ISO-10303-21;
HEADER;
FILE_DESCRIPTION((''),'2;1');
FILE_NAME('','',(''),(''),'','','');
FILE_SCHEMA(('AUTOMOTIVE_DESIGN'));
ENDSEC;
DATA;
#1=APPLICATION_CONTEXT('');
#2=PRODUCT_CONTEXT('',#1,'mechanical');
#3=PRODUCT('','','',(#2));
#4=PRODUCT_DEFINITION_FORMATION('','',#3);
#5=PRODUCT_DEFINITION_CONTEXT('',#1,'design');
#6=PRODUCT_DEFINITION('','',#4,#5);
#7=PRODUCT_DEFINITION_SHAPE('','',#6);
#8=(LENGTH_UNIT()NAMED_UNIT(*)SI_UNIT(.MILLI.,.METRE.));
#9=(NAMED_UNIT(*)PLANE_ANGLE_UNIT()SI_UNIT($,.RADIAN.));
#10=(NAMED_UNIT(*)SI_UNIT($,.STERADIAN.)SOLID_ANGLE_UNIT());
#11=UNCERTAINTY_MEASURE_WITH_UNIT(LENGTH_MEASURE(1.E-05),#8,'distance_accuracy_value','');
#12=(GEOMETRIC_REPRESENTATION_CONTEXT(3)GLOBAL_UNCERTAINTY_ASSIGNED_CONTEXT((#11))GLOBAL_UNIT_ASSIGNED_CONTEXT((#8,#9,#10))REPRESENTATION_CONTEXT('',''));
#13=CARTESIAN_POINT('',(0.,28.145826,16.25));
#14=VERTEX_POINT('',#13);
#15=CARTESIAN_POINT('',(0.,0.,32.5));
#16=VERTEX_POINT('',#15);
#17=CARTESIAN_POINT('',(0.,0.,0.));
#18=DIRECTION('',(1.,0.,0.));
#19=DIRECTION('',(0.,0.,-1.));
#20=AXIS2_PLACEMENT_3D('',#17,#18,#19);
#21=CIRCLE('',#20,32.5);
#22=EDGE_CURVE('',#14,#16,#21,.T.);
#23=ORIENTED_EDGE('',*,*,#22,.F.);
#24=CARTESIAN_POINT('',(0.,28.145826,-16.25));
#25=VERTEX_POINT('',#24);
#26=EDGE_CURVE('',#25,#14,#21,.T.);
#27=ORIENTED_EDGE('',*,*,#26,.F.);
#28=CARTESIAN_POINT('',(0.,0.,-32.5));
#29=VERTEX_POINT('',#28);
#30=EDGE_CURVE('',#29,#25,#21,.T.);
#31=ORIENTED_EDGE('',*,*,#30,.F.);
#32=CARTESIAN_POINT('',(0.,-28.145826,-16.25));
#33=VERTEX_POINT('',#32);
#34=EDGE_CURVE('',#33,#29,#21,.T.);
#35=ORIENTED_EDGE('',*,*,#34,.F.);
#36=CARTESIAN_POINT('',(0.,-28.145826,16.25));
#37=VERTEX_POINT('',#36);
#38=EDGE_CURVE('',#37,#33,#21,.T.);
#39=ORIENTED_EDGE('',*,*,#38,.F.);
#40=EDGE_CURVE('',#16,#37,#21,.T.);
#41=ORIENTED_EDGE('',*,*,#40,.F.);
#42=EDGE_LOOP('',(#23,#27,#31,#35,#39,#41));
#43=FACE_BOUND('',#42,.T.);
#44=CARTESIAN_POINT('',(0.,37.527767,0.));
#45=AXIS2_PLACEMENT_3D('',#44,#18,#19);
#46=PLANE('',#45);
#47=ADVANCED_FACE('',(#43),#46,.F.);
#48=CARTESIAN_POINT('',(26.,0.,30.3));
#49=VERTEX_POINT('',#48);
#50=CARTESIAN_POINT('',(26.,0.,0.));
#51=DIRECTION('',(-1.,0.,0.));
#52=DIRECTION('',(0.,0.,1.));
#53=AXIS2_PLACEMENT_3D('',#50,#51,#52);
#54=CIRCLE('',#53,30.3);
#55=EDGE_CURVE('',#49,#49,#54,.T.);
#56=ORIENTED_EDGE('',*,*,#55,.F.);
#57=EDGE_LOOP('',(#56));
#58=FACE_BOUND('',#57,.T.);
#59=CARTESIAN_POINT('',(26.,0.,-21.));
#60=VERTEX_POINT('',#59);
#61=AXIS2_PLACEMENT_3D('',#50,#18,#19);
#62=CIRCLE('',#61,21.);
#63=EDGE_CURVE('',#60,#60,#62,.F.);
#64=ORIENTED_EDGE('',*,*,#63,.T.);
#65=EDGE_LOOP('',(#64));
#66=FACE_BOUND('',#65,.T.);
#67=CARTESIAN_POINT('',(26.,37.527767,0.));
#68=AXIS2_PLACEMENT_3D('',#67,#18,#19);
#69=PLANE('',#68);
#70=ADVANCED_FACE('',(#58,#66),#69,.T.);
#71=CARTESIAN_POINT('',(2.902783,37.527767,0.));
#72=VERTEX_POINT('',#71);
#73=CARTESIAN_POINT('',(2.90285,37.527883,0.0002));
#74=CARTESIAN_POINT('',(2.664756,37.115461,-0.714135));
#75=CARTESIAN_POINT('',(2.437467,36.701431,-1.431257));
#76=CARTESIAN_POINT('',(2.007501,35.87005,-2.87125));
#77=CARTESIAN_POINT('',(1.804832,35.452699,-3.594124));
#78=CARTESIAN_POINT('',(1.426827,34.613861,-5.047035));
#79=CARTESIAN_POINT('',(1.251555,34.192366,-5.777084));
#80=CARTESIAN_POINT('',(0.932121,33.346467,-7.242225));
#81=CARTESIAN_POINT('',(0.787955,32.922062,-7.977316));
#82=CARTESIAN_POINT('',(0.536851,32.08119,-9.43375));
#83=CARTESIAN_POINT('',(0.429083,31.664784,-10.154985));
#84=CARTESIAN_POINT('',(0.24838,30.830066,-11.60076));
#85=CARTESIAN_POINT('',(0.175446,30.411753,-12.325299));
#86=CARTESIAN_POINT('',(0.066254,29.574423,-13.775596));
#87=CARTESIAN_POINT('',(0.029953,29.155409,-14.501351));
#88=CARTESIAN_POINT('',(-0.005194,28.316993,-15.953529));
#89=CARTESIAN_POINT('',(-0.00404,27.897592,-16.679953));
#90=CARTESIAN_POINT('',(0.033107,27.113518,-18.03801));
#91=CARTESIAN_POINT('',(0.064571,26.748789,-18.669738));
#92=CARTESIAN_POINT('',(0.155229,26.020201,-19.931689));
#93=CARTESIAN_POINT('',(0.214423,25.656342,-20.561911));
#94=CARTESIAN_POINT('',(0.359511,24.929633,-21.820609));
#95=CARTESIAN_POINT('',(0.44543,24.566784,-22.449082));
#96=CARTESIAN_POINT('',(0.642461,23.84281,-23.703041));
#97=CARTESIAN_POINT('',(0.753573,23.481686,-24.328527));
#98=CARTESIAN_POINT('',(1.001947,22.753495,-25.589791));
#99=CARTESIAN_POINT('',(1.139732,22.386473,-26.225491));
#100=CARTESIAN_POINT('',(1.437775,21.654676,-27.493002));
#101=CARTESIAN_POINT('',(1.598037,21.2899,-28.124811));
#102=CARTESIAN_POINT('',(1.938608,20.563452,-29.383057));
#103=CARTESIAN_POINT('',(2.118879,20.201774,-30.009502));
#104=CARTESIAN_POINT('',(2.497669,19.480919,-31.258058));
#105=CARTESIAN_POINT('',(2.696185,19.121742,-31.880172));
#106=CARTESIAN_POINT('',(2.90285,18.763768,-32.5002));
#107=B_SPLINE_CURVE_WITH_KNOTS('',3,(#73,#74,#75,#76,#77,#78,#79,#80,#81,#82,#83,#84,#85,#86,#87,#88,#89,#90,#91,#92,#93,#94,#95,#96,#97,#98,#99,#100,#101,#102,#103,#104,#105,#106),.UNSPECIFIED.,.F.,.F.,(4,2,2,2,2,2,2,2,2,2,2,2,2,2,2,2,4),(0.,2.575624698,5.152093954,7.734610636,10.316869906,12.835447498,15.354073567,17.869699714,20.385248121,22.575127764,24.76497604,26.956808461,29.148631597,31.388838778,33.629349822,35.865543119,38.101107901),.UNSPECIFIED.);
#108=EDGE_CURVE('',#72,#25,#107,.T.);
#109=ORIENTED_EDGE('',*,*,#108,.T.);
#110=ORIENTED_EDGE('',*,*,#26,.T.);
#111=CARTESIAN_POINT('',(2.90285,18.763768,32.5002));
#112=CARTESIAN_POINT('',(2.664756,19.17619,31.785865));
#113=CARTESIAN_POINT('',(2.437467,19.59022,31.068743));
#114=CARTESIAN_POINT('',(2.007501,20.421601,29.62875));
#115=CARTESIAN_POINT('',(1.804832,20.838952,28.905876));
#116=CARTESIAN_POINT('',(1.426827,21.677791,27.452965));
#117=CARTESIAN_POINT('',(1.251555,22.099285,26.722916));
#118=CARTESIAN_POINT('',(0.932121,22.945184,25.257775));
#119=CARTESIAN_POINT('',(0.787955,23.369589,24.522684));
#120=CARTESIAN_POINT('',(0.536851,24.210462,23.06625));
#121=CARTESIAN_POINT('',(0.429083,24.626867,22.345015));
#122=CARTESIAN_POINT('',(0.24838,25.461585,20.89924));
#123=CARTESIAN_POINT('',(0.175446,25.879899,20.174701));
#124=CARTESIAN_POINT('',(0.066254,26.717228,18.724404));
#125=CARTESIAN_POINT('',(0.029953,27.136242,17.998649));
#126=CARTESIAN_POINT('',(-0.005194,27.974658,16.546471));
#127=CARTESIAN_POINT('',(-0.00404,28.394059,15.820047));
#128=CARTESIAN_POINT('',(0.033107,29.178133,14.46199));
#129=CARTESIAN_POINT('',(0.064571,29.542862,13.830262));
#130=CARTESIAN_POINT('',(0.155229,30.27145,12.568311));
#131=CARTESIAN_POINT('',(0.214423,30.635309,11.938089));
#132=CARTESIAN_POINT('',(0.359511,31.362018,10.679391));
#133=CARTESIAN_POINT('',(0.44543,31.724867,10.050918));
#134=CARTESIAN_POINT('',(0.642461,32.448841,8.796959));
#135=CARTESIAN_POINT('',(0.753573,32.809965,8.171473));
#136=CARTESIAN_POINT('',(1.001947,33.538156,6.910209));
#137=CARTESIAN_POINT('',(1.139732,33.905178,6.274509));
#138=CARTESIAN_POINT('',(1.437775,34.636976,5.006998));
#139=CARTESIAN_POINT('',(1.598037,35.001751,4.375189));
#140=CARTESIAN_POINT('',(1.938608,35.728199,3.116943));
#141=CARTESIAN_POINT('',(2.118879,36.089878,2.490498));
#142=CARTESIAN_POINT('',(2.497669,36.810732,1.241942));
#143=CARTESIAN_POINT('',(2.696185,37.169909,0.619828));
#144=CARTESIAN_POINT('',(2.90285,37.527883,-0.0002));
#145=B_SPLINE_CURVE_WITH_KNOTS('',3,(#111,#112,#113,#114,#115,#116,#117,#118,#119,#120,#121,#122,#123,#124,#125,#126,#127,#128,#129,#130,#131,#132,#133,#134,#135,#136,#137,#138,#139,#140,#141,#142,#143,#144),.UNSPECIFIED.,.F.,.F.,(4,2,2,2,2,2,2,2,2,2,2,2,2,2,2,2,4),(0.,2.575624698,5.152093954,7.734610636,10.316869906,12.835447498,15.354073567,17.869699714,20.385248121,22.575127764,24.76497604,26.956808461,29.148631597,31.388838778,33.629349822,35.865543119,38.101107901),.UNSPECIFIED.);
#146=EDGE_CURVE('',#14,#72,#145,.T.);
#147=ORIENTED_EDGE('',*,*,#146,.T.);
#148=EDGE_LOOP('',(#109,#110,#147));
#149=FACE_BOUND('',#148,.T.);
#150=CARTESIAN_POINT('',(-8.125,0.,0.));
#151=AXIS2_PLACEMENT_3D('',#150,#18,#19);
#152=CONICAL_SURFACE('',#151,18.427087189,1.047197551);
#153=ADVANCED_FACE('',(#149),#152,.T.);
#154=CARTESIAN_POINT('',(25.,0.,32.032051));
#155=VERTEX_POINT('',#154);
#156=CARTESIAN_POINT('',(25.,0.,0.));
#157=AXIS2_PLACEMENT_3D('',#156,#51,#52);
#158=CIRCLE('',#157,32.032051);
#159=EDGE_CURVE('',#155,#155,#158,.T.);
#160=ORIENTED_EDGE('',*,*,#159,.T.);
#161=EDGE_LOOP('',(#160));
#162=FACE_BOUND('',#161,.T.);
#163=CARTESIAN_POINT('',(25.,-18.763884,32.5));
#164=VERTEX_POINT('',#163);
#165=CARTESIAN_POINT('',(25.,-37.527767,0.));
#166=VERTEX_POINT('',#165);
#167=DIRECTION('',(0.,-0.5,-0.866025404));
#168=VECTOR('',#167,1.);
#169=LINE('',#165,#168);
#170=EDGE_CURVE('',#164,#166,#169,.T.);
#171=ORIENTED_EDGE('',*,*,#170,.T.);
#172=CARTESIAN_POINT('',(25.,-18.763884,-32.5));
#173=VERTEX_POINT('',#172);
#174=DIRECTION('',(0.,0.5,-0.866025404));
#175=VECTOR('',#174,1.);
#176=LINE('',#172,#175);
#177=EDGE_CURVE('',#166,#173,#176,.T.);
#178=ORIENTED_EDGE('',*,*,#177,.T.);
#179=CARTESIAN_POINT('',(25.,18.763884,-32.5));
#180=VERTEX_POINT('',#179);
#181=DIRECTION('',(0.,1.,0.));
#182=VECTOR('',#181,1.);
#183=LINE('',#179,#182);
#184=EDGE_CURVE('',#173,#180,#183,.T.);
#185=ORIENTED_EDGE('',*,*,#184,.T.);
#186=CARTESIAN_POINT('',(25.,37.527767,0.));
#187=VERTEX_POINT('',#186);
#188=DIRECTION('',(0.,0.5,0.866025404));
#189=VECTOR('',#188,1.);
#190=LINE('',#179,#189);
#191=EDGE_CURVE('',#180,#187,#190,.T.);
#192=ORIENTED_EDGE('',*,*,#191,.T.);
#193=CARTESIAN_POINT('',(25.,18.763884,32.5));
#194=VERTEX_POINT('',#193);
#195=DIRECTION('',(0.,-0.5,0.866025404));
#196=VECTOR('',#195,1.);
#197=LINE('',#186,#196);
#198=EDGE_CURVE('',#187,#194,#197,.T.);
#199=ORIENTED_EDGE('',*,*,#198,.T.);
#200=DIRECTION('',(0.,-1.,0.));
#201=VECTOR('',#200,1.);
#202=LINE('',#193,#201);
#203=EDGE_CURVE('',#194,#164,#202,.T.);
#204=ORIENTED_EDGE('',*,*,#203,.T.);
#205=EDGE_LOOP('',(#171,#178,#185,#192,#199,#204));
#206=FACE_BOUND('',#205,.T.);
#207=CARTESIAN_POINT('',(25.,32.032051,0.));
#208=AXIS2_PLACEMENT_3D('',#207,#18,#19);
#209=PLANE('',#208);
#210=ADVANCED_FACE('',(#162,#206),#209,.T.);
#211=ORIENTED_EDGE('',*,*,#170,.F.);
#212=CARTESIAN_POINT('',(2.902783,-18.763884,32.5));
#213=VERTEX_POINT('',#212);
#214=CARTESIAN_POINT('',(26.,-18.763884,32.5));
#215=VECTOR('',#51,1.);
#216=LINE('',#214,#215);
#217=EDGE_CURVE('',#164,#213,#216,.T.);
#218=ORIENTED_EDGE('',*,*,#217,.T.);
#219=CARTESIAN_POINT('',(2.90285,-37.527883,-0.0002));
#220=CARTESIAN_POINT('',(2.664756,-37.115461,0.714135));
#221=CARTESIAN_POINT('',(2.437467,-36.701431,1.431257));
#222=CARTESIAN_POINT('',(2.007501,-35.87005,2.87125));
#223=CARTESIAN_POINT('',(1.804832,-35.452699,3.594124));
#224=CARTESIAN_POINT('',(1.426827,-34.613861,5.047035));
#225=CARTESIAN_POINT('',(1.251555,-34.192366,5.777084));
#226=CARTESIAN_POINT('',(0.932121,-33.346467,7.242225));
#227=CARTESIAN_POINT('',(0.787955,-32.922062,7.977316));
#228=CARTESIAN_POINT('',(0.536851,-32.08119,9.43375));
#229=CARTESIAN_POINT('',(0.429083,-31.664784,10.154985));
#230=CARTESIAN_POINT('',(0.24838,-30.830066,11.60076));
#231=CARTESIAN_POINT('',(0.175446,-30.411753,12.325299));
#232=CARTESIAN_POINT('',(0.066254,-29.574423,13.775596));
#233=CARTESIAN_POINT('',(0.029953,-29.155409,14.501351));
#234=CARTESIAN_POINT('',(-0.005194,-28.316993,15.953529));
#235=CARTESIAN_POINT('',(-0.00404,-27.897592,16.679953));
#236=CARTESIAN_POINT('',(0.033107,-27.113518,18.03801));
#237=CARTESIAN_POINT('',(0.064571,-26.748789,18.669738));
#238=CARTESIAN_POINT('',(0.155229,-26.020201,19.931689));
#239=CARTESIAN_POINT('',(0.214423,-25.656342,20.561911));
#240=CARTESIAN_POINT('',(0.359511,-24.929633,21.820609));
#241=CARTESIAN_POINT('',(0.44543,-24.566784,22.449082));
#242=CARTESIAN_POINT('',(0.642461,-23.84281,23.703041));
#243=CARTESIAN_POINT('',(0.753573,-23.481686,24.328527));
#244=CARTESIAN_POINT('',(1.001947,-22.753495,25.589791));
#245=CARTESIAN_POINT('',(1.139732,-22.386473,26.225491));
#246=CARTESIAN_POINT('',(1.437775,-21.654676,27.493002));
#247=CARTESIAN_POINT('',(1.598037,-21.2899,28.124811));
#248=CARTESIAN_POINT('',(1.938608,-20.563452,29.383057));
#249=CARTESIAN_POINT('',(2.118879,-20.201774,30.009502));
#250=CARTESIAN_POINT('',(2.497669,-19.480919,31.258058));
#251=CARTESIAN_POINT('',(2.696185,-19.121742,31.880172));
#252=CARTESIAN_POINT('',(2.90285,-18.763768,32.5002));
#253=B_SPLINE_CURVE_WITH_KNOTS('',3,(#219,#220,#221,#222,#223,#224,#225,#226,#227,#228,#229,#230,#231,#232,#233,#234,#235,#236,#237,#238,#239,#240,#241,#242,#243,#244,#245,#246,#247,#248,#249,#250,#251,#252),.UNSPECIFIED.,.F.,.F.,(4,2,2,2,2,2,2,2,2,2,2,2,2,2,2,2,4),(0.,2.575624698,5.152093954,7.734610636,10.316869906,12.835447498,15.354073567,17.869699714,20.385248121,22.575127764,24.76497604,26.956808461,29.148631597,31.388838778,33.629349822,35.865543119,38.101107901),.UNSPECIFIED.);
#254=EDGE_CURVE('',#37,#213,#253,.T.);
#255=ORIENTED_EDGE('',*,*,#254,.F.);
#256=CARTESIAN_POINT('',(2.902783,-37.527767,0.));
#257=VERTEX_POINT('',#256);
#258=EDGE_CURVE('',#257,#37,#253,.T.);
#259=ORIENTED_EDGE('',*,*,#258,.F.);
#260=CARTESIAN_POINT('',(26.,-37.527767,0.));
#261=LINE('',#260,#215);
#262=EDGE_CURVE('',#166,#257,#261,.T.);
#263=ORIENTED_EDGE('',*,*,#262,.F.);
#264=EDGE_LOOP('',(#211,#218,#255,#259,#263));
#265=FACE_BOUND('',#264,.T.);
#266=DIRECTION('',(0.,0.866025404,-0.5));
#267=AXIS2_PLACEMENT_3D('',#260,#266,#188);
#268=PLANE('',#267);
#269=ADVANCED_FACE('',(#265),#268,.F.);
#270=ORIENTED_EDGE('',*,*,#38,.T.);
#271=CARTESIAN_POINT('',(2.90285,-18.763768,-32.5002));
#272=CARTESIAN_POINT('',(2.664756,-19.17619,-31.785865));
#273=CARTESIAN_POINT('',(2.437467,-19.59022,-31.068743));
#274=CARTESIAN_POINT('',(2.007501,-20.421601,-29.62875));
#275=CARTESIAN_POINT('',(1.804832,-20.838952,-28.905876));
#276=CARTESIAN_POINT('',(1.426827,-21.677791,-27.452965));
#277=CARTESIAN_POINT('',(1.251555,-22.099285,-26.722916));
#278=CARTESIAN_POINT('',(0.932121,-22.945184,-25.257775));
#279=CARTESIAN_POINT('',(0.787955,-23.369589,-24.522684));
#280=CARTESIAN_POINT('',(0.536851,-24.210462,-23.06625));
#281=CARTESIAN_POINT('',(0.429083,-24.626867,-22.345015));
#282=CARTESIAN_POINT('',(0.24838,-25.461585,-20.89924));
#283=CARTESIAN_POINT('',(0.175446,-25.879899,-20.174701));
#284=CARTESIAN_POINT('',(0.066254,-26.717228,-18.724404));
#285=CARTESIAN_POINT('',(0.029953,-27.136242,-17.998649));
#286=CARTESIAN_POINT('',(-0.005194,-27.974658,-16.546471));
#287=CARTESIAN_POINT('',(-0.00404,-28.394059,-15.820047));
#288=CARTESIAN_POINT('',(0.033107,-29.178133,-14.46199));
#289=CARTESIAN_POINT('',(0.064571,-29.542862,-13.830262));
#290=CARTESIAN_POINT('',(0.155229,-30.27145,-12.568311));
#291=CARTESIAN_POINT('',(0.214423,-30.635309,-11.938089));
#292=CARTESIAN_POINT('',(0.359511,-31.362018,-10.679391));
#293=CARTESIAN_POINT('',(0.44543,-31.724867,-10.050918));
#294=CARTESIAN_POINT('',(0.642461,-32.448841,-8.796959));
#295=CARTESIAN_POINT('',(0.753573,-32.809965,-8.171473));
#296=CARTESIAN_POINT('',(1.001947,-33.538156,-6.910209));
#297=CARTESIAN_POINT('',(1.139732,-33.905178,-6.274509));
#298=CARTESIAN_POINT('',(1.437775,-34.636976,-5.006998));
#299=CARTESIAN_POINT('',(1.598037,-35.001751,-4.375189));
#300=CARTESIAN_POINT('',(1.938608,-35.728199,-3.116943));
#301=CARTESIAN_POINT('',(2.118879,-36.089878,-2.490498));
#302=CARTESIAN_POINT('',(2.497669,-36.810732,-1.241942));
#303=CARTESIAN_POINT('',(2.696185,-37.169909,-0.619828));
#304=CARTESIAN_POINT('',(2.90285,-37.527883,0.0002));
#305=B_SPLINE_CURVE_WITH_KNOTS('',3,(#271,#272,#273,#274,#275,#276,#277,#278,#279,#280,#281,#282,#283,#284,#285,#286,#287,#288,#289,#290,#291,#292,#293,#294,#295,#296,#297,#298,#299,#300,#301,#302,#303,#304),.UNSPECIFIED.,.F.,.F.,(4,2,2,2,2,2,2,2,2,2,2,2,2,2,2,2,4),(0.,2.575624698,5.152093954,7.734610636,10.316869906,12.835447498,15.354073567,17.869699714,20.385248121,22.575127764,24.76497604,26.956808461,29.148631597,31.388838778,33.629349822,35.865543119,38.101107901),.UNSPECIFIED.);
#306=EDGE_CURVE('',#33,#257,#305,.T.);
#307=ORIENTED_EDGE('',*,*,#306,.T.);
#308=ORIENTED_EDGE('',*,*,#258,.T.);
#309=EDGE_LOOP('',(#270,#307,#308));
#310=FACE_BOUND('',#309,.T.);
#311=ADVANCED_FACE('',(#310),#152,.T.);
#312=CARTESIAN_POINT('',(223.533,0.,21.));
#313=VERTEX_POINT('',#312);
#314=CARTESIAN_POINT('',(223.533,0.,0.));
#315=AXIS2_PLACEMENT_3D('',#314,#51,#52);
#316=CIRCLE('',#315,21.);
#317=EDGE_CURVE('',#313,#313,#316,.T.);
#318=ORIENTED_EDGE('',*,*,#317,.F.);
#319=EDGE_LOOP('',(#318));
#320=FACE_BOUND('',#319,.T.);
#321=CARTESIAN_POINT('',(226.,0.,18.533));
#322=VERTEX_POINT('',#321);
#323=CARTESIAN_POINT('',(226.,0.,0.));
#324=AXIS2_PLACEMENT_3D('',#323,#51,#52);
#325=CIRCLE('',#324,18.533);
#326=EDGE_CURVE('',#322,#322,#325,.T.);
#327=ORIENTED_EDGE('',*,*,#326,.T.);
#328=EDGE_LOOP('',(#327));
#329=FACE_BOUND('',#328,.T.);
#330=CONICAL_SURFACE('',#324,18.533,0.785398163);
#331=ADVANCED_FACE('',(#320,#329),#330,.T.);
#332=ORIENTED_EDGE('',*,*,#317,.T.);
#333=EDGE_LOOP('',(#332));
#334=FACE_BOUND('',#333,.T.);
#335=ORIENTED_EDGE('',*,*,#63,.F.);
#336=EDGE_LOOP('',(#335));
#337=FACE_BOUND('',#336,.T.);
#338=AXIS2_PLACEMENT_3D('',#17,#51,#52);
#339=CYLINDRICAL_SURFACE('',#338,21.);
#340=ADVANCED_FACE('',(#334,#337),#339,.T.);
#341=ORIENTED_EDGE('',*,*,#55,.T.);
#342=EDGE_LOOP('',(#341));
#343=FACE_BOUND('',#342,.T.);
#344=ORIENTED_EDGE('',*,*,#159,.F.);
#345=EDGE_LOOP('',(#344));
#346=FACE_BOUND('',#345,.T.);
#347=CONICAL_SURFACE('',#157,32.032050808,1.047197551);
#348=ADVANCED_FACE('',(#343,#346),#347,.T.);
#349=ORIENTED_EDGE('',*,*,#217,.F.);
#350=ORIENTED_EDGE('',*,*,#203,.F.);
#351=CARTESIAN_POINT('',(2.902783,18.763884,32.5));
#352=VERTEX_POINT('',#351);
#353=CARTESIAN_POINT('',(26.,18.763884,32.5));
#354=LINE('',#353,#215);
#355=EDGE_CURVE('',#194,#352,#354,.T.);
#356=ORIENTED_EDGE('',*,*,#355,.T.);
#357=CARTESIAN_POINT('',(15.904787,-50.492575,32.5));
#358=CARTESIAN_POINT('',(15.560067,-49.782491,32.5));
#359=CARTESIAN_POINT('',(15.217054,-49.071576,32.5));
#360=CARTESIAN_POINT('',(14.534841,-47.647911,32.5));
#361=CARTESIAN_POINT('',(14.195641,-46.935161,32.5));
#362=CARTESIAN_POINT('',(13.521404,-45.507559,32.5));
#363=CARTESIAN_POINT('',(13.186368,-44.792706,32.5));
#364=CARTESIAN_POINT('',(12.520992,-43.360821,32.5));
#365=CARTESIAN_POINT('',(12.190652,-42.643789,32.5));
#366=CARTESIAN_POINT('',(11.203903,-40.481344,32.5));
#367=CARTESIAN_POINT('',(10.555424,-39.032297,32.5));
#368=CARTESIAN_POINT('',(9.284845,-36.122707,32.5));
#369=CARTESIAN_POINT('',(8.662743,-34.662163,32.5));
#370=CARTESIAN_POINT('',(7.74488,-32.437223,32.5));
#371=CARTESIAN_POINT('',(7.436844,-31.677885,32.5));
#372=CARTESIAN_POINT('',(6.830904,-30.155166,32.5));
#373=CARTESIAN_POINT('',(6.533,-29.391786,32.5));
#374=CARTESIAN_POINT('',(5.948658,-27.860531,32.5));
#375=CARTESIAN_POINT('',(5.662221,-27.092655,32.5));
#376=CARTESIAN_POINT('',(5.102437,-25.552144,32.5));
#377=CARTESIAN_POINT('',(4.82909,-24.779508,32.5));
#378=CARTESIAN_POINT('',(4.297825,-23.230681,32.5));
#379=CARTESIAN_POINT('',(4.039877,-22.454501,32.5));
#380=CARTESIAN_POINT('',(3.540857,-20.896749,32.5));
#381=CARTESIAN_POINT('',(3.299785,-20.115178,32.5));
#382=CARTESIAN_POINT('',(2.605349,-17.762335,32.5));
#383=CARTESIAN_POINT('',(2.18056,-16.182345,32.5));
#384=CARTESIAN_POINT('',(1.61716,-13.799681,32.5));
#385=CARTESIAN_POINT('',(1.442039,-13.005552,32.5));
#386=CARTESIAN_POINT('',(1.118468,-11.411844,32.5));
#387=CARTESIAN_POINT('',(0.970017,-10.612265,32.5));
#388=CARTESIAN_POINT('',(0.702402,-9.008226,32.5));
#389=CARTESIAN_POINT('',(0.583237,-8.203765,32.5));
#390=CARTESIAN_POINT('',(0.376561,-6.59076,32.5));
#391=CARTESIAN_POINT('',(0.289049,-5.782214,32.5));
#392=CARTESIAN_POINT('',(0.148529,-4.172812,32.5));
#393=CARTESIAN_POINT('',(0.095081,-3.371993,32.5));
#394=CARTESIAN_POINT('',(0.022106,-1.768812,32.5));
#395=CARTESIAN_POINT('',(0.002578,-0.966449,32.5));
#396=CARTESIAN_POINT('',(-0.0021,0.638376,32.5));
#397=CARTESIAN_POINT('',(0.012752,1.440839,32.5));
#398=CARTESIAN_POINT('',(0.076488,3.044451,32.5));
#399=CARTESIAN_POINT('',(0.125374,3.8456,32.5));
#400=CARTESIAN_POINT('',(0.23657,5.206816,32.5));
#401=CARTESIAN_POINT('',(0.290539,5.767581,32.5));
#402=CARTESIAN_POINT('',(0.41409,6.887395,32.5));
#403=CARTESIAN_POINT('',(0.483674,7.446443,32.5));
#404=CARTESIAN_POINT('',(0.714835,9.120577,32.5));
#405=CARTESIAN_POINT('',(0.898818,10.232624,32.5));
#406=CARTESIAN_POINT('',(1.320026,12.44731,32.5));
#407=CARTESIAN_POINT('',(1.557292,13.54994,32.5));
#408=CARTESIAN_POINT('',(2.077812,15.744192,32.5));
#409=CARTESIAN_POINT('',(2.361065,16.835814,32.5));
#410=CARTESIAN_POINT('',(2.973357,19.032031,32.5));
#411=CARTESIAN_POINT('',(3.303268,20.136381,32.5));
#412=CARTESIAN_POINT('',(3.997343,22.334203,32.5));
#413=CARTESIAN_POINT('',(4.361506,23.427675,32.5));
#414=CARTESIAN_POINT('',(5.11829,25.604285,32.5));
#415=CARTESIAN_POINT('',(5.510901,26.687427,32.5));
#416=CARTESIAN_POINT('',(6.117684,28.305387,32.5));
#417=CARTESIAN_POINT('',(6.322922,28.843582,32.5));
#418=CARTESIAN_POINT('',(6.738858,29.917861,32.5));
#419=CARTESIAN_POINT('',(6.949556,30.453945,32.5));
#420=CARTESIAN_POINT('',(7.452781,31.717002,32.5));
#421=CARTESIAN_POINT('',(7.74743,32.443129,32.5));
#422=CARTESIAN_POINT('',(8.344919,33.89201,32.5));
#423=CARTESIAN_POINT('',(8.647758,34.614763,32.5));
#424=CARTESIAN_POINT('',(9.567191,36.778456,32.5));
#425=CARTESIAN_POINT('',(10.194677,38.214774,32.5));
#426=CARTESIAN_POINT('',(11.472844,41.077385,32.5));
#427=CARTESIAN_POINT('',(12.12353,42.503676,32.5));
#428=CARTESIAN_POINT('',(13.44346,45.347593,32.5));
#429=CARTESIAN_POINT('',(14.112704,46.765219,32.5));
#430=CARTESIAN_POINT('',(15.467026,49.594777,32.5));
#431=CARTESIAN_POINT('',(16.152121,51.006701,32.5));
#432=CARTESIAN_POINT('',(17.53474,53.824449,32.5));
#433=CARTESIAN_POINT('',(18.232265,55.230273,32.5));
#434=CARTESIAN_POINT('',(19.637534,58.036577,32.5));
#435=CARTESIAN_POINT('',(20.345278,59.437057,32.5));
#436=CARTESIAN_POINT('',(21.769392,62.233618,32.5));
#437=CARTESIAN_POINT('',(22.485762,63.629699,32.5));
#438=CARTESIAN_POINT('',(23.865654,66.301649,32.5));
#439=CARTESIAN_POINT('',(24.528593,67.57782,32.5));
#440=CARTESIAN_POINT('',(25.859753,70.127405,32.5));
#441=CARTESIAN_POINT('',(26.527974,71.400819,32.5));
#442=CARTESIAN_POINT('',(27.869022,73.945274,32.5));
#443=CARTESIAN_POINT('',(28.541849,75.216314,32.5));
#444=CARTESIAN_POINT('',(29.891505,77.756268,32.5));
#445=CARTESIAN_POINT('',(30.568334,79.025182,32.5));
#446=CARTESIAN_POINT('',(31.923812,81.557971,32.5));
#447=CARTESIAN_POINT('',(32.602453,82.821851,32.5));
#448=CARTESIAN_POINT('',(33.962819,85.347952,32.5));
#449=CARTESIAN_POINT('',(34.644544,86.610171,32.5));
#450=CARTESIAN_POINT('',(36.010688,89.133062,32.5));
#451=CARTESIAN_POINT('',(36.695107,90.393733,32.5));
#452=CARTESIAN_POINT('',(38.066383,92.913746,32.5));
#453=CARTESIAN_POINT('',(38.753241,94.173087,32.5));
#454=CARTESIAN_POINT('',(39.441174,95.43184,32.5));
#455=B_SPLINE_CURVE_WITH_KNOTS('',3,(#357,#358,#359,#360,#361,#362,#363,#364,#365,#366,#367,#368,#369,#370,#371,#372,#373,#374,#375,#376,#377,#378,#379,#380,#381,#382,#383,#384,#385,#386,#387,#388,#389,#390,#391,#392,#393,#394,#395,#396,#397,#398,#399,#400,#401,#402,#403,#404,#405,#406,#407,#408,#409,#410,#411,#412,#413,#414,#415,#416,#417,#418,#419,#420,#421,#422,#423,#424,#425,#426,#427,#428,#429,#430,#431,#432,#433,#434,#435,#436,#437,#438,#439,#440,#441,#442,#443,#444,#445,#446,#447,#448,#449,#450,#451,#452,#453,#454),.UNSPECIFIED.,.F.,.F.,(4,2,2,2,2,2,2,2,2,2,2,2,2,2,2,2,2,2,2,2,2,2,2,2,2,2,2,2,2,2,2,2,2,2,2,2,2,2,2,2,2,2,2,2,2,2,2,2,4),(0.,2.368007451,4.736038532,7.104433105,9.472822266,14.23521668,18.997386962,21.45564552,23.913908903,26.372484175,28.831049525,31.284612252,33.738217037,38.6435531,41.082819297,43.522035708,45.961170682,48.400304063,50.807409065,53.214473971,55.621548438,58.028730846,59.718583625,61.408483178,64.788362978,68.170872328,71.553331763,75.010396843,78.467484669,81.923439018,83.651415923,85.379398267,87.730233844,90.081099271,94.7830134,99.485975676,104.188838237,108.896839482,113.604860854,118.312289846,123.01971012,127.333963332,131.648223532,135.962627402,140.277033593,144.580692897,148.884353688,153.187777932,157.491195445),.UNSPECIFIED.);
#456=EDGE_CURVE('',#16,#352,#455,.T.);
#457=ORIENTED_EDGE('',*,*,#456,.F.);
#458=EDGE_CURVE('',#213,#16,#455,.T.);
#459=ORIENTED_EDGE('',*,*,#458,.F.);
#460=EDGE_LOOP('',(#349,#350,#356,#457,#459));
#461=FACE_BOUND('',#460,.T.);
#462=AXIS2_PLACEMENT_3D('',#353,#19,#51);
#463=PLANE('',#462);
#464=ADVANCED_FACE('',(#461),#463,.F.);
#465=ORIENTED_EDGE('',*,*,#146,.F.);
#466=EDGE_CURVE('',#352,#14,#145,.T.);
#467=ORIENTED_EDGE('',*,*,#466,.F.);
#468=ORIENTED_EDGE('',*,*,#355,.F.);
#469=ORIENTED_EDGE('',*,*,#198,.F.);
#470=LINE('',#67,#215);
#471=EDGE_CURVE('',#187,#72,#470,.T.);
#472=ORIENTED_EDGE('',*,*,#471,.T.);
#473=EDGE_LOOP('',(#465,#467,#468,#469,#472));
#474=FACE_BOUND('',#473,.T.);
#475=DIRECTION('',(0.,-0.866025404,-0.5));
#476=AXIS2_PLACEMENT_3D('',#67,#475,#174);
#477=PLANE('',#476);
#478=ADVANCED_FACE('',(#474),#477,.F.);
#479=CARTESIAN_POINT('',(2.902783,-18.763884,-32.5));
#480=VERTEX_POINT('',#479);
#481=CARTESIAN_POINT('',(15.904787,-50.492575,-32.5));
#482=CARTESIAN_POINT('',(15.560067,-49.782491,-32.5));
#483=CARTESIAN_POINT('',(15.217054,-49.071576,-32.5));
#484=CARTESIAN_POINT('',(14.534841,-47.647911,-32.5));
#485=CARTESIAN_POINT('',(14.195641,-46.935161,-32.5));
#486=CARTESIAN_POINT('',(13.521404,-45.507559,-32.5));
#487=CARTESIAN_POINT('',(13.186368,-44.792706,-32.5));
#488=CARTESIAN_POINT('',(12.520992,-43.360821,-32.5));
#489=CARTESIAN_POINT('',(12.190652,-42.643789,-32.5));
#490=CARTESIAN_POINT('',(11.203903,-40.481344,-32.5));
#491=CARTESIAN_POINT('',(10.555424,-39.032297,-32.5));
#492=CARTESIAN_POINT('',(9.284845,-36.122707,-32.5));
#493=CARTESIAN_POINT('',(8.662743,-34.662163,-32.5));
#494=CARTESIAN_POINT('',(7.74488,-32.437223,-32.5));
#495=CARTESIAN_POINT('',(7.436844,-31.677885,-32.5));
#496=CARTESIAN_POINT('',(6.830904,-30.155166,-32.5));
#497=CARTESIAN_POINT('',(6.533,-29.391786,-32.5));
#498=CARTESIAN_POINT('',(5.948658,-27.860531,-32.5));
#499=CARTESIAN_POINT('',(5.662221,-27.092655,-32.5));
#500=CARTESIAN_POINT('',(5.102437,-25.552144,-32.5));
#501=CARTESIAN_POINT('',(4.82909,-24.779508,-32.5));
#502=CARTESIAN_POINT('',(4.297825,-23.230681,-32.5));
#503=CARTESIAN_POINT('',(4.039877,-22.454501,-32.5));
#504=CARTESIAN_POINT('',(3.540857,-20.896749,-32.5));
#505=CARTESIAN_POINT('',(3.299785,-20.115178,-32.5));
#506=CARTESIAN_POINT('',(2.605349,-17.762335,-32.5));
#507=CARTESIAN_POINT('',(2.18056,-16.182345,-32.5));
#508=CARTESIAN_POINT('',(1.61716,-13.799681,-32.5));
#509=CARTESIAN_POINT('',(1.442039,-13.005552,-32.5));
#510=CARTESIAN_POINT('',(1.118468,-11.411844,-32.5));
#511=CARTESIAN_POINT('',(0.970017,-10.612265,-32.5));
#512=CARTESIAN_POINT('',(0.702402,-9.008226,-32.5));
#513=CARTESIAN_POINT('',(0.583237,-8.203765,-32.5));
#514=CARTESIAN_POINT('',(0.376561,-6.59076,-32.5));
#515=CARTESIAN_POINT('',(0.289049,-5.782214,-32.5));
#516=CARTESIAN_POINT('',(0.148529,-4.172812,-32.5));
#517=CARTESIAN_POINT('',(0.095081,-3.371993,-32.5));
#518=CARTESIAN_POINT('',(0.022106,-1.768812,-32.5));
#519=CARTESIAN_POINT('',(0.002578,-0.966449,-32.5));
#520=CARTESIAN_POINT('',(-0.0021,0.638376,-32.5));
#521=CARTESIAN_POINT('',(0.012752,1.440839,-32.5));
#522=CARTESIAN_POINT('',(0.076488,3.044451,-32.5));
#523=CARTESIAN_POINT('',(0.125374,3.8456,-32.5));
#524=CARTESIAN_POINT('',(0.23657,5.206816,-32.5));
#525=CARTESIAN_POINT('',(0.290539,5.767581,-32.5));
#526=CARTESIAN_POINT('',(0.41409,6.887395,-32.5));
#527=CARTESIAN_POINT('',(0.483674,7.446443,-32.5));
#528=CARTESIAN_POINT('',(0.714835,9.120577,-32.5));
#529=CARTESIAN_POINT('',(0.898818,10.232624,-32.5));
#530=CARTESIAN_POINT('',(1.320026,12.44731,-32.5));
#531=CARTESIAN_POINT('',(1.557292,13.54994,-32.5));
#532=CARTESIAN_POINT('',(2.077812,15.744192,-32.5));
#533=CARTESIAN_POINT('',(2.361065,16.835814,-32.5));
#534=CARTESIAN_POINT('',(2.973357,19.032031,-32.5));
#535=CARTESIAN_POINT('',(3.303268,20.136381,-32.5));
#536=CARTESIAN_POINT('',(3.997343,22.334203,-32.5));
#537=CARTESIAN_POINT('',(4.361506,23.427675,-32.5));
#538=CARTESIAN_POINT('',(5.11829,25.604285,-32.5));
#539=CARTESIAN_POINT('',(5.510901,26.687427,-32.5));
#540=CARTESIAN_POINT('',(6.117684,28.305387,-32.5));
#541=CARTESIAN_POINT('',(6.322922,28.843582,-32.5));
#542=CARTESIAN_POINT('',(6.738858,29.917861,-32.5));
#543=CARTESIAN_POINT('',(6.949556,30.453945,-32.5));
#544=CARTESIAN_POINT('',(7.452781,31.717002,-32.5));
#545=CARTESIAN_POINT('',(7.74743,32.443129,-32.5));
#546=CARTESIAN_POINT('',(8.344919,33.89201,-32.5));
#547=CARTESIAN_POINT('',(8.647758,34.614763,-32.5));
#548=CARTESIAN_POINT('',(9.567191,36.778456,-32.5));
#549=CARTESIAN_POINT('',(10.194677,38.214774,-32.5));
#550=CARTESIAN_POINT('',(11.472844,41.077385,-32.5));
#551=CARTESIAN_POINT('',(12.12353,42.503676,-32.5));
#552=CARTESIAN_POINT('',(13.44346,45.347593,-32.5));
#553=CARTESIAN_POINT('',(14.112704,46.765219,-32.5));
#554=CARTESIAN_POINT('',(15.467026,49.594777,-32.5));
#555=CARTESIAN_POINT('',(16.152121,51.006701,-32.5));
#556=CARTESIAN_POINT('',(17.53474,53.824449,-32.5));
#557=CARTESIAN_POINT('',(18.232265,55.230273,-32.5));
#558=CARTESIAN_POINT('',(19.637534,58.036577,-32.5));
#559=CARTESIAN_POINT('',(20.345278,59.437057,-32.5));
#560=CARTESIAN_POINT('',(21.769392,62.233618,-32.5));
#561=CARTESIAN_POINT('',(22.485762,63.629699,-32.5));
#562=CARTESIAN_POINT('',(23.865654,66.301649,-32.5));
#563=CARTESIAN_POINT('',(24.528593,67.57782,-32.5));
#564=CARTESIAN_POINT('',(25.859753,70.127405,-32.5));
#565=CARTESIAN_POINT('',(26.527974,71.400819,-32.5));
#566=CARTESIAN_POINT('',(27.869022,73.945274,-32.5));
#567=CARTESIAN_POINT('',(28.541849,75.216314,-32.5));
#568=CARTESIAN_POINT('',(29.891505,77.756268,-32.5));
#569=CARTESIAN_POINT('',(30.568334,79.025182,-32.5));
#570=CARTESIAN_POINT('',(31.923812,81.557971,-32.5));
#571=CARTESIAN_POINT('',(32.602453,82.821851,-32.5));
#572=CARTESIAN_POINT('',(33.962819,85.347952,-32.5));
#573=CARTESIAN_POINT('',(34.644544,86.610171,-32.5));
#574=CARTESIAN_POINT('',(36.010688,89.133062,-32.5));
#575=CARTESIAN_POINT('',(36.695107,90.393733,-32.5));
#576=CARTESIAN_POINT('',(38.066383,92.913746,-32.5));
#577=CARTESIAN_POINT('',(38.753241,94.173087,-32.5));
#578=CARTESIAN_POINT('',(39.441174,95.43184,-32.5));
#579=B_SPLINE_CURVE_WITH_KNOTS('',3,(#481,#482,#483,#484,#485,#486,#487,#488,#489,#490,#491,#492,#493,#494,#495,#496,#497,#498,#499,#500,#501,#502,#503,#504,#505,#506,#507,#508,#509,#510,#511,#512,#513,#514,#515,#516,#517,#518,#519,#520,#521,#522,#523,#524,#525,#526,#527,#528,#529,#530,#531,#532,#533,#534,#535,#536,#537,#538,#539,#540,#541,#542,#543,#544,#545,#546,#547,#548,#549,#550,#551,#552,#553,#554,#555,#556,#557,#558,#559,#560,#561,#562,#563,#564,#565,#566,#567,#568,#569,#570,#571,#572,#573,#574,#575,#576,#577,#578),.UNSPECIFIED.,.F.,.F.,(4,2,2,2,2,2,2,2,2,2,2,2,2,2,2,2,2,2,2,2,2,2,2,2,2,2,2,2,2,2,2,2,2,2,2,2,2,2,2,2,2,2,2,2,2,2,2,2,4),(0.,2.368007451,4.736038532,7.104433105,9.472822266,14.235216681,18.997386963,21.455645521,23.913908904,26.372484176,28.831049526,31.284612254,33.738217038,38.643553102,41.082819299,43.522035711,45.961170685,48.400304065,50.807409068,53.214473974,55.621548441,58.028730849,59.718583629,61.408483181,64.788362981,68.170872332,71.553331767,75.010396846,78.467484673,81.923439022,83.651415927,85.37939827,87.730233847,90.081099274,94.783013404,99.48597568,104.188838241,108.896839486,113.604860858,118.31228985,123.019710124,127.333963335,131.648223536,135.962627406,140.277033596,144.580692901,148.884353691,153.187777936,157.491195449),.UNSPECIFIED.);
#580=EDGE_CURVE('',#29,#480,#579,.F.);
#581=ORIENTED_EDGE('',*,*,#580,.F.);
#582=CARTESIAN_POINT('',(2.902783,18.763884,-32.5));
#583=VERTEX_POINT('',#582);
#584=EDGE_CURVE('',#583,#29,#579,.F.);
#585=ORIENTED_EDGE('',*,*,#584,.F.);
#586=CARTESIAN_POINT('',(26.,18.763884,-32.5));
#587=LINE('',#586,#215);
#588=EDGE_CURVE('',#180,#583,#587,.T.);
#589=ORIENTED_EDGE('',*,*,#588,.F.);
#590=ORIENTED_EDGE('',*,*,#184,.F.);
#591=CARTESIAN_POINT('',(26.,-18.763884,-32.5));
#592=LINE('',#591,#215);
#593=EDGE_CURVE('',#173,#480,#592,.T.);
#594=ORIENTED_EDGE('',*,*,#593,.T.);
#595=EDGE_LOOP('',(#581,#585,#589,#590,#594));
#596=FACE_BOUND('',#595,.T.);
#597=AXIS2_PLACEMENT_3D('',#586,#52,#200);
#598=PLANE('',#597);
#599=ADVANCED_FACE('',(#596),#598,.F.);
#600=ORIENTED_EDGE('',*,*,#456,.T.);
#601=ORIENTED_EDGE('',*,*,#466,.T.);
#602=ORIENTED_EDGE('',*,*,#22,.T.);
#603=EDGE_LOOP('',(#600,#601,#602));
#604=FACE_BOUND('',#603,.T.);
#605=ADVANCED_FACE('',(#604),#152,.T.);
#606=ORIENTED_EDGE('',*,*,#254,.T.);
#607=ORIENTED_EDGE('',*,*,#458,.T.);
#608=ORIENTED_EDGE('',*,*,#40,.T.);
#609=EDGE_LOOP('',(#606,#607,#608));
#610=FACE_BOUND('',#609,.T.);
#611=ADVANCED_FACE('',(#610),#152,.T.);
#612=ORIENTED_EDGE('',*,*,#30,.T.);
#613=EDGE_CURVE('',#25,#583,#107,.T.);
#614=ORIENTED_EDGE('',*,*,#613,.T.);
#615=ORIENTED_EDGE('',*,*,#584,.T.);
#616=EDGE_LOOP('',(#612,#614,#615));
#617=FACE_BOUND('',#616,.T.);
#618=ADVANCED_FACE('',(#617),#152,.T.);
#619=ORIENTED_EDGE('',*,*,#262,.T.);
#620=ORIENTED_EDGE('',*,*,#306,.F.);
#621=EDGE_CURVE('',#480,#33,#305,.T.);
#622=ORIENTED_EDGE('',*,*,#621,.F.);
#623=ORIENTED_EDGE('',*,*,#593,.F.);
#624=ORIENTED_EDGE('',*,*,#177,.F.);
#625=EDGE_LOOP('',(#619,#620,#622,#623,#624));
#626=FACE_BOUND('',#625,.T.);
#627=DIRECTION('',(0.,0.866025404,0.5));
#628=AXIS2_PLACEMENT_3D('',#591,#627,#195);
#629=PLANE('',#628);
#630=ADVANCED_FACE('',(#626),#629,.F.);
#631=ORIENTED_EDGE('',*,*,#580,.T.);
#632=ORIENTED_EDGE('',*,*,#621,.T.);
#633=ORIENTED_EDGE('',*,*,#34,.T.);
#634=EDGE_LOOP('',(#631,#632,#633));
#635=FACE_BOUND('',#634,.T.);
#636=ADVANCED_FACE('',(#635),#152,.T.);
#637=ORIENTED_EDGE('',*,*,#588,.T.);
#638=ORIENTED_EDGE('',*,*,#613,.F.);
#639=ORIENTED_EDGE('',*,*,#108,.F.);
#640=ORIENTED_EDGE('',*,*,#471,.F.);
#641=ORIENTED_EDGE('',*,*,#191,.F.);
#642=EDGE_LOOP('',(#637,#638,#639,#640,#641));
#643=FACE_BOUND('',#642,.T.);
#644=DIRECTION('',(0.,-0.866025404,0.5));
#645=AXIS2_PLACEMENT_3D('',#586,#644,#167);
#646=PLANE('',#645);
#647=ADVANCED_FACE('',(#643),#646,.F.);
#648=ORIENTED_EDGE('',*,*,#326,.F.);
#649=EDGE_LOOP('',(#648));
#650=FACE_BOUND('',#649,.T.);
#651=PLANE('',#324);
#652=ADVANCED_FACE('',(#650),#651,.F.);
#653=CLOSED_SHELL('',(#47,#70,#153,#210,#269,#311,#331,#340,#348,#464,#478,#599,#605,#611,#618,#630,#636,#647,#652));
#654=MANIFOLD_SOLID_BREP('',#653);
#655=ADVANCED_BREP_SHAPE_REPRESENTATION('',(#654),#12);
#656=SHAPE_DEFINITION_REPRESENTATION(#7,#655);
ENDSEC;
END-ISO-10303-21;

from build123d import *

# Parameters (mm, degrees)
BASEHEAD_DEPTH = 26


with BuildPart() as part:
    # HeadSke → BaseHead (new body)
    with BuildSketch(Plane(origin=(0, 0, 0), x_dir=(0, 0, -1), z_dir=(1, 0, 0))):
        Polygon((32.5, 18.763883749), (32.5, -18.763883749), (0, -37.527767497), (-32.5, -18.763883749), (-32.5, 18.763883749), (0, 37.527767497), align=None)
    extrude(amount=BASEHEAD_DEPTH)

    # BodySke → BaseBody (revolve)
    with BuildSketch(Plane.XY, mode=Mode.PRIVATE) as basebody_sk:
        Polygon((0, 0), (226, 0), (226, 18.533), (223.533, 21), (0, 21), align=None)
    revolve(basebody_sk.sketch.rotate(Axis((0, 0, 0), (1, 0, 0)), 90), axis=Axis((0, 0, 0), (1, 0, 0)))

    # Sketch3 → HeadChamfer (revolve, cut)
    with BuildSketch(Plane(origin=(0, 0, 0), x_dir=(1, 0, 0), z_dir=(0, 1, 0))):
        Polygon((-8.125, 18.427087189), (8.125, 46.572912811), (-13.525635095, 59.072912811), (-29.775635095, 30.927087189), align=None)
    revolve(axis=Axis((0, 0, 0), (1, 0, 0)), mode=Mode.SUBTRACT)

    # BearingSke → BearingFace (revolve, cut)
    with BuildSketch(Plane.XY, mode=Mode.PRIVATE) as bearingface_sk:
        Polygon((26, 30.3), (25, 32.032050808), (25, 37.527767497), (26, 37.527767497), align=None)
    revolve(bearingface_sk.sketch.rotate(Axis((0, 0, 0), (1, 0, 0)), 90), axis=Axis((0, 0, 0), (1, 0, 0)), mode=Mode.SUBTRACT)


solid = part.part
